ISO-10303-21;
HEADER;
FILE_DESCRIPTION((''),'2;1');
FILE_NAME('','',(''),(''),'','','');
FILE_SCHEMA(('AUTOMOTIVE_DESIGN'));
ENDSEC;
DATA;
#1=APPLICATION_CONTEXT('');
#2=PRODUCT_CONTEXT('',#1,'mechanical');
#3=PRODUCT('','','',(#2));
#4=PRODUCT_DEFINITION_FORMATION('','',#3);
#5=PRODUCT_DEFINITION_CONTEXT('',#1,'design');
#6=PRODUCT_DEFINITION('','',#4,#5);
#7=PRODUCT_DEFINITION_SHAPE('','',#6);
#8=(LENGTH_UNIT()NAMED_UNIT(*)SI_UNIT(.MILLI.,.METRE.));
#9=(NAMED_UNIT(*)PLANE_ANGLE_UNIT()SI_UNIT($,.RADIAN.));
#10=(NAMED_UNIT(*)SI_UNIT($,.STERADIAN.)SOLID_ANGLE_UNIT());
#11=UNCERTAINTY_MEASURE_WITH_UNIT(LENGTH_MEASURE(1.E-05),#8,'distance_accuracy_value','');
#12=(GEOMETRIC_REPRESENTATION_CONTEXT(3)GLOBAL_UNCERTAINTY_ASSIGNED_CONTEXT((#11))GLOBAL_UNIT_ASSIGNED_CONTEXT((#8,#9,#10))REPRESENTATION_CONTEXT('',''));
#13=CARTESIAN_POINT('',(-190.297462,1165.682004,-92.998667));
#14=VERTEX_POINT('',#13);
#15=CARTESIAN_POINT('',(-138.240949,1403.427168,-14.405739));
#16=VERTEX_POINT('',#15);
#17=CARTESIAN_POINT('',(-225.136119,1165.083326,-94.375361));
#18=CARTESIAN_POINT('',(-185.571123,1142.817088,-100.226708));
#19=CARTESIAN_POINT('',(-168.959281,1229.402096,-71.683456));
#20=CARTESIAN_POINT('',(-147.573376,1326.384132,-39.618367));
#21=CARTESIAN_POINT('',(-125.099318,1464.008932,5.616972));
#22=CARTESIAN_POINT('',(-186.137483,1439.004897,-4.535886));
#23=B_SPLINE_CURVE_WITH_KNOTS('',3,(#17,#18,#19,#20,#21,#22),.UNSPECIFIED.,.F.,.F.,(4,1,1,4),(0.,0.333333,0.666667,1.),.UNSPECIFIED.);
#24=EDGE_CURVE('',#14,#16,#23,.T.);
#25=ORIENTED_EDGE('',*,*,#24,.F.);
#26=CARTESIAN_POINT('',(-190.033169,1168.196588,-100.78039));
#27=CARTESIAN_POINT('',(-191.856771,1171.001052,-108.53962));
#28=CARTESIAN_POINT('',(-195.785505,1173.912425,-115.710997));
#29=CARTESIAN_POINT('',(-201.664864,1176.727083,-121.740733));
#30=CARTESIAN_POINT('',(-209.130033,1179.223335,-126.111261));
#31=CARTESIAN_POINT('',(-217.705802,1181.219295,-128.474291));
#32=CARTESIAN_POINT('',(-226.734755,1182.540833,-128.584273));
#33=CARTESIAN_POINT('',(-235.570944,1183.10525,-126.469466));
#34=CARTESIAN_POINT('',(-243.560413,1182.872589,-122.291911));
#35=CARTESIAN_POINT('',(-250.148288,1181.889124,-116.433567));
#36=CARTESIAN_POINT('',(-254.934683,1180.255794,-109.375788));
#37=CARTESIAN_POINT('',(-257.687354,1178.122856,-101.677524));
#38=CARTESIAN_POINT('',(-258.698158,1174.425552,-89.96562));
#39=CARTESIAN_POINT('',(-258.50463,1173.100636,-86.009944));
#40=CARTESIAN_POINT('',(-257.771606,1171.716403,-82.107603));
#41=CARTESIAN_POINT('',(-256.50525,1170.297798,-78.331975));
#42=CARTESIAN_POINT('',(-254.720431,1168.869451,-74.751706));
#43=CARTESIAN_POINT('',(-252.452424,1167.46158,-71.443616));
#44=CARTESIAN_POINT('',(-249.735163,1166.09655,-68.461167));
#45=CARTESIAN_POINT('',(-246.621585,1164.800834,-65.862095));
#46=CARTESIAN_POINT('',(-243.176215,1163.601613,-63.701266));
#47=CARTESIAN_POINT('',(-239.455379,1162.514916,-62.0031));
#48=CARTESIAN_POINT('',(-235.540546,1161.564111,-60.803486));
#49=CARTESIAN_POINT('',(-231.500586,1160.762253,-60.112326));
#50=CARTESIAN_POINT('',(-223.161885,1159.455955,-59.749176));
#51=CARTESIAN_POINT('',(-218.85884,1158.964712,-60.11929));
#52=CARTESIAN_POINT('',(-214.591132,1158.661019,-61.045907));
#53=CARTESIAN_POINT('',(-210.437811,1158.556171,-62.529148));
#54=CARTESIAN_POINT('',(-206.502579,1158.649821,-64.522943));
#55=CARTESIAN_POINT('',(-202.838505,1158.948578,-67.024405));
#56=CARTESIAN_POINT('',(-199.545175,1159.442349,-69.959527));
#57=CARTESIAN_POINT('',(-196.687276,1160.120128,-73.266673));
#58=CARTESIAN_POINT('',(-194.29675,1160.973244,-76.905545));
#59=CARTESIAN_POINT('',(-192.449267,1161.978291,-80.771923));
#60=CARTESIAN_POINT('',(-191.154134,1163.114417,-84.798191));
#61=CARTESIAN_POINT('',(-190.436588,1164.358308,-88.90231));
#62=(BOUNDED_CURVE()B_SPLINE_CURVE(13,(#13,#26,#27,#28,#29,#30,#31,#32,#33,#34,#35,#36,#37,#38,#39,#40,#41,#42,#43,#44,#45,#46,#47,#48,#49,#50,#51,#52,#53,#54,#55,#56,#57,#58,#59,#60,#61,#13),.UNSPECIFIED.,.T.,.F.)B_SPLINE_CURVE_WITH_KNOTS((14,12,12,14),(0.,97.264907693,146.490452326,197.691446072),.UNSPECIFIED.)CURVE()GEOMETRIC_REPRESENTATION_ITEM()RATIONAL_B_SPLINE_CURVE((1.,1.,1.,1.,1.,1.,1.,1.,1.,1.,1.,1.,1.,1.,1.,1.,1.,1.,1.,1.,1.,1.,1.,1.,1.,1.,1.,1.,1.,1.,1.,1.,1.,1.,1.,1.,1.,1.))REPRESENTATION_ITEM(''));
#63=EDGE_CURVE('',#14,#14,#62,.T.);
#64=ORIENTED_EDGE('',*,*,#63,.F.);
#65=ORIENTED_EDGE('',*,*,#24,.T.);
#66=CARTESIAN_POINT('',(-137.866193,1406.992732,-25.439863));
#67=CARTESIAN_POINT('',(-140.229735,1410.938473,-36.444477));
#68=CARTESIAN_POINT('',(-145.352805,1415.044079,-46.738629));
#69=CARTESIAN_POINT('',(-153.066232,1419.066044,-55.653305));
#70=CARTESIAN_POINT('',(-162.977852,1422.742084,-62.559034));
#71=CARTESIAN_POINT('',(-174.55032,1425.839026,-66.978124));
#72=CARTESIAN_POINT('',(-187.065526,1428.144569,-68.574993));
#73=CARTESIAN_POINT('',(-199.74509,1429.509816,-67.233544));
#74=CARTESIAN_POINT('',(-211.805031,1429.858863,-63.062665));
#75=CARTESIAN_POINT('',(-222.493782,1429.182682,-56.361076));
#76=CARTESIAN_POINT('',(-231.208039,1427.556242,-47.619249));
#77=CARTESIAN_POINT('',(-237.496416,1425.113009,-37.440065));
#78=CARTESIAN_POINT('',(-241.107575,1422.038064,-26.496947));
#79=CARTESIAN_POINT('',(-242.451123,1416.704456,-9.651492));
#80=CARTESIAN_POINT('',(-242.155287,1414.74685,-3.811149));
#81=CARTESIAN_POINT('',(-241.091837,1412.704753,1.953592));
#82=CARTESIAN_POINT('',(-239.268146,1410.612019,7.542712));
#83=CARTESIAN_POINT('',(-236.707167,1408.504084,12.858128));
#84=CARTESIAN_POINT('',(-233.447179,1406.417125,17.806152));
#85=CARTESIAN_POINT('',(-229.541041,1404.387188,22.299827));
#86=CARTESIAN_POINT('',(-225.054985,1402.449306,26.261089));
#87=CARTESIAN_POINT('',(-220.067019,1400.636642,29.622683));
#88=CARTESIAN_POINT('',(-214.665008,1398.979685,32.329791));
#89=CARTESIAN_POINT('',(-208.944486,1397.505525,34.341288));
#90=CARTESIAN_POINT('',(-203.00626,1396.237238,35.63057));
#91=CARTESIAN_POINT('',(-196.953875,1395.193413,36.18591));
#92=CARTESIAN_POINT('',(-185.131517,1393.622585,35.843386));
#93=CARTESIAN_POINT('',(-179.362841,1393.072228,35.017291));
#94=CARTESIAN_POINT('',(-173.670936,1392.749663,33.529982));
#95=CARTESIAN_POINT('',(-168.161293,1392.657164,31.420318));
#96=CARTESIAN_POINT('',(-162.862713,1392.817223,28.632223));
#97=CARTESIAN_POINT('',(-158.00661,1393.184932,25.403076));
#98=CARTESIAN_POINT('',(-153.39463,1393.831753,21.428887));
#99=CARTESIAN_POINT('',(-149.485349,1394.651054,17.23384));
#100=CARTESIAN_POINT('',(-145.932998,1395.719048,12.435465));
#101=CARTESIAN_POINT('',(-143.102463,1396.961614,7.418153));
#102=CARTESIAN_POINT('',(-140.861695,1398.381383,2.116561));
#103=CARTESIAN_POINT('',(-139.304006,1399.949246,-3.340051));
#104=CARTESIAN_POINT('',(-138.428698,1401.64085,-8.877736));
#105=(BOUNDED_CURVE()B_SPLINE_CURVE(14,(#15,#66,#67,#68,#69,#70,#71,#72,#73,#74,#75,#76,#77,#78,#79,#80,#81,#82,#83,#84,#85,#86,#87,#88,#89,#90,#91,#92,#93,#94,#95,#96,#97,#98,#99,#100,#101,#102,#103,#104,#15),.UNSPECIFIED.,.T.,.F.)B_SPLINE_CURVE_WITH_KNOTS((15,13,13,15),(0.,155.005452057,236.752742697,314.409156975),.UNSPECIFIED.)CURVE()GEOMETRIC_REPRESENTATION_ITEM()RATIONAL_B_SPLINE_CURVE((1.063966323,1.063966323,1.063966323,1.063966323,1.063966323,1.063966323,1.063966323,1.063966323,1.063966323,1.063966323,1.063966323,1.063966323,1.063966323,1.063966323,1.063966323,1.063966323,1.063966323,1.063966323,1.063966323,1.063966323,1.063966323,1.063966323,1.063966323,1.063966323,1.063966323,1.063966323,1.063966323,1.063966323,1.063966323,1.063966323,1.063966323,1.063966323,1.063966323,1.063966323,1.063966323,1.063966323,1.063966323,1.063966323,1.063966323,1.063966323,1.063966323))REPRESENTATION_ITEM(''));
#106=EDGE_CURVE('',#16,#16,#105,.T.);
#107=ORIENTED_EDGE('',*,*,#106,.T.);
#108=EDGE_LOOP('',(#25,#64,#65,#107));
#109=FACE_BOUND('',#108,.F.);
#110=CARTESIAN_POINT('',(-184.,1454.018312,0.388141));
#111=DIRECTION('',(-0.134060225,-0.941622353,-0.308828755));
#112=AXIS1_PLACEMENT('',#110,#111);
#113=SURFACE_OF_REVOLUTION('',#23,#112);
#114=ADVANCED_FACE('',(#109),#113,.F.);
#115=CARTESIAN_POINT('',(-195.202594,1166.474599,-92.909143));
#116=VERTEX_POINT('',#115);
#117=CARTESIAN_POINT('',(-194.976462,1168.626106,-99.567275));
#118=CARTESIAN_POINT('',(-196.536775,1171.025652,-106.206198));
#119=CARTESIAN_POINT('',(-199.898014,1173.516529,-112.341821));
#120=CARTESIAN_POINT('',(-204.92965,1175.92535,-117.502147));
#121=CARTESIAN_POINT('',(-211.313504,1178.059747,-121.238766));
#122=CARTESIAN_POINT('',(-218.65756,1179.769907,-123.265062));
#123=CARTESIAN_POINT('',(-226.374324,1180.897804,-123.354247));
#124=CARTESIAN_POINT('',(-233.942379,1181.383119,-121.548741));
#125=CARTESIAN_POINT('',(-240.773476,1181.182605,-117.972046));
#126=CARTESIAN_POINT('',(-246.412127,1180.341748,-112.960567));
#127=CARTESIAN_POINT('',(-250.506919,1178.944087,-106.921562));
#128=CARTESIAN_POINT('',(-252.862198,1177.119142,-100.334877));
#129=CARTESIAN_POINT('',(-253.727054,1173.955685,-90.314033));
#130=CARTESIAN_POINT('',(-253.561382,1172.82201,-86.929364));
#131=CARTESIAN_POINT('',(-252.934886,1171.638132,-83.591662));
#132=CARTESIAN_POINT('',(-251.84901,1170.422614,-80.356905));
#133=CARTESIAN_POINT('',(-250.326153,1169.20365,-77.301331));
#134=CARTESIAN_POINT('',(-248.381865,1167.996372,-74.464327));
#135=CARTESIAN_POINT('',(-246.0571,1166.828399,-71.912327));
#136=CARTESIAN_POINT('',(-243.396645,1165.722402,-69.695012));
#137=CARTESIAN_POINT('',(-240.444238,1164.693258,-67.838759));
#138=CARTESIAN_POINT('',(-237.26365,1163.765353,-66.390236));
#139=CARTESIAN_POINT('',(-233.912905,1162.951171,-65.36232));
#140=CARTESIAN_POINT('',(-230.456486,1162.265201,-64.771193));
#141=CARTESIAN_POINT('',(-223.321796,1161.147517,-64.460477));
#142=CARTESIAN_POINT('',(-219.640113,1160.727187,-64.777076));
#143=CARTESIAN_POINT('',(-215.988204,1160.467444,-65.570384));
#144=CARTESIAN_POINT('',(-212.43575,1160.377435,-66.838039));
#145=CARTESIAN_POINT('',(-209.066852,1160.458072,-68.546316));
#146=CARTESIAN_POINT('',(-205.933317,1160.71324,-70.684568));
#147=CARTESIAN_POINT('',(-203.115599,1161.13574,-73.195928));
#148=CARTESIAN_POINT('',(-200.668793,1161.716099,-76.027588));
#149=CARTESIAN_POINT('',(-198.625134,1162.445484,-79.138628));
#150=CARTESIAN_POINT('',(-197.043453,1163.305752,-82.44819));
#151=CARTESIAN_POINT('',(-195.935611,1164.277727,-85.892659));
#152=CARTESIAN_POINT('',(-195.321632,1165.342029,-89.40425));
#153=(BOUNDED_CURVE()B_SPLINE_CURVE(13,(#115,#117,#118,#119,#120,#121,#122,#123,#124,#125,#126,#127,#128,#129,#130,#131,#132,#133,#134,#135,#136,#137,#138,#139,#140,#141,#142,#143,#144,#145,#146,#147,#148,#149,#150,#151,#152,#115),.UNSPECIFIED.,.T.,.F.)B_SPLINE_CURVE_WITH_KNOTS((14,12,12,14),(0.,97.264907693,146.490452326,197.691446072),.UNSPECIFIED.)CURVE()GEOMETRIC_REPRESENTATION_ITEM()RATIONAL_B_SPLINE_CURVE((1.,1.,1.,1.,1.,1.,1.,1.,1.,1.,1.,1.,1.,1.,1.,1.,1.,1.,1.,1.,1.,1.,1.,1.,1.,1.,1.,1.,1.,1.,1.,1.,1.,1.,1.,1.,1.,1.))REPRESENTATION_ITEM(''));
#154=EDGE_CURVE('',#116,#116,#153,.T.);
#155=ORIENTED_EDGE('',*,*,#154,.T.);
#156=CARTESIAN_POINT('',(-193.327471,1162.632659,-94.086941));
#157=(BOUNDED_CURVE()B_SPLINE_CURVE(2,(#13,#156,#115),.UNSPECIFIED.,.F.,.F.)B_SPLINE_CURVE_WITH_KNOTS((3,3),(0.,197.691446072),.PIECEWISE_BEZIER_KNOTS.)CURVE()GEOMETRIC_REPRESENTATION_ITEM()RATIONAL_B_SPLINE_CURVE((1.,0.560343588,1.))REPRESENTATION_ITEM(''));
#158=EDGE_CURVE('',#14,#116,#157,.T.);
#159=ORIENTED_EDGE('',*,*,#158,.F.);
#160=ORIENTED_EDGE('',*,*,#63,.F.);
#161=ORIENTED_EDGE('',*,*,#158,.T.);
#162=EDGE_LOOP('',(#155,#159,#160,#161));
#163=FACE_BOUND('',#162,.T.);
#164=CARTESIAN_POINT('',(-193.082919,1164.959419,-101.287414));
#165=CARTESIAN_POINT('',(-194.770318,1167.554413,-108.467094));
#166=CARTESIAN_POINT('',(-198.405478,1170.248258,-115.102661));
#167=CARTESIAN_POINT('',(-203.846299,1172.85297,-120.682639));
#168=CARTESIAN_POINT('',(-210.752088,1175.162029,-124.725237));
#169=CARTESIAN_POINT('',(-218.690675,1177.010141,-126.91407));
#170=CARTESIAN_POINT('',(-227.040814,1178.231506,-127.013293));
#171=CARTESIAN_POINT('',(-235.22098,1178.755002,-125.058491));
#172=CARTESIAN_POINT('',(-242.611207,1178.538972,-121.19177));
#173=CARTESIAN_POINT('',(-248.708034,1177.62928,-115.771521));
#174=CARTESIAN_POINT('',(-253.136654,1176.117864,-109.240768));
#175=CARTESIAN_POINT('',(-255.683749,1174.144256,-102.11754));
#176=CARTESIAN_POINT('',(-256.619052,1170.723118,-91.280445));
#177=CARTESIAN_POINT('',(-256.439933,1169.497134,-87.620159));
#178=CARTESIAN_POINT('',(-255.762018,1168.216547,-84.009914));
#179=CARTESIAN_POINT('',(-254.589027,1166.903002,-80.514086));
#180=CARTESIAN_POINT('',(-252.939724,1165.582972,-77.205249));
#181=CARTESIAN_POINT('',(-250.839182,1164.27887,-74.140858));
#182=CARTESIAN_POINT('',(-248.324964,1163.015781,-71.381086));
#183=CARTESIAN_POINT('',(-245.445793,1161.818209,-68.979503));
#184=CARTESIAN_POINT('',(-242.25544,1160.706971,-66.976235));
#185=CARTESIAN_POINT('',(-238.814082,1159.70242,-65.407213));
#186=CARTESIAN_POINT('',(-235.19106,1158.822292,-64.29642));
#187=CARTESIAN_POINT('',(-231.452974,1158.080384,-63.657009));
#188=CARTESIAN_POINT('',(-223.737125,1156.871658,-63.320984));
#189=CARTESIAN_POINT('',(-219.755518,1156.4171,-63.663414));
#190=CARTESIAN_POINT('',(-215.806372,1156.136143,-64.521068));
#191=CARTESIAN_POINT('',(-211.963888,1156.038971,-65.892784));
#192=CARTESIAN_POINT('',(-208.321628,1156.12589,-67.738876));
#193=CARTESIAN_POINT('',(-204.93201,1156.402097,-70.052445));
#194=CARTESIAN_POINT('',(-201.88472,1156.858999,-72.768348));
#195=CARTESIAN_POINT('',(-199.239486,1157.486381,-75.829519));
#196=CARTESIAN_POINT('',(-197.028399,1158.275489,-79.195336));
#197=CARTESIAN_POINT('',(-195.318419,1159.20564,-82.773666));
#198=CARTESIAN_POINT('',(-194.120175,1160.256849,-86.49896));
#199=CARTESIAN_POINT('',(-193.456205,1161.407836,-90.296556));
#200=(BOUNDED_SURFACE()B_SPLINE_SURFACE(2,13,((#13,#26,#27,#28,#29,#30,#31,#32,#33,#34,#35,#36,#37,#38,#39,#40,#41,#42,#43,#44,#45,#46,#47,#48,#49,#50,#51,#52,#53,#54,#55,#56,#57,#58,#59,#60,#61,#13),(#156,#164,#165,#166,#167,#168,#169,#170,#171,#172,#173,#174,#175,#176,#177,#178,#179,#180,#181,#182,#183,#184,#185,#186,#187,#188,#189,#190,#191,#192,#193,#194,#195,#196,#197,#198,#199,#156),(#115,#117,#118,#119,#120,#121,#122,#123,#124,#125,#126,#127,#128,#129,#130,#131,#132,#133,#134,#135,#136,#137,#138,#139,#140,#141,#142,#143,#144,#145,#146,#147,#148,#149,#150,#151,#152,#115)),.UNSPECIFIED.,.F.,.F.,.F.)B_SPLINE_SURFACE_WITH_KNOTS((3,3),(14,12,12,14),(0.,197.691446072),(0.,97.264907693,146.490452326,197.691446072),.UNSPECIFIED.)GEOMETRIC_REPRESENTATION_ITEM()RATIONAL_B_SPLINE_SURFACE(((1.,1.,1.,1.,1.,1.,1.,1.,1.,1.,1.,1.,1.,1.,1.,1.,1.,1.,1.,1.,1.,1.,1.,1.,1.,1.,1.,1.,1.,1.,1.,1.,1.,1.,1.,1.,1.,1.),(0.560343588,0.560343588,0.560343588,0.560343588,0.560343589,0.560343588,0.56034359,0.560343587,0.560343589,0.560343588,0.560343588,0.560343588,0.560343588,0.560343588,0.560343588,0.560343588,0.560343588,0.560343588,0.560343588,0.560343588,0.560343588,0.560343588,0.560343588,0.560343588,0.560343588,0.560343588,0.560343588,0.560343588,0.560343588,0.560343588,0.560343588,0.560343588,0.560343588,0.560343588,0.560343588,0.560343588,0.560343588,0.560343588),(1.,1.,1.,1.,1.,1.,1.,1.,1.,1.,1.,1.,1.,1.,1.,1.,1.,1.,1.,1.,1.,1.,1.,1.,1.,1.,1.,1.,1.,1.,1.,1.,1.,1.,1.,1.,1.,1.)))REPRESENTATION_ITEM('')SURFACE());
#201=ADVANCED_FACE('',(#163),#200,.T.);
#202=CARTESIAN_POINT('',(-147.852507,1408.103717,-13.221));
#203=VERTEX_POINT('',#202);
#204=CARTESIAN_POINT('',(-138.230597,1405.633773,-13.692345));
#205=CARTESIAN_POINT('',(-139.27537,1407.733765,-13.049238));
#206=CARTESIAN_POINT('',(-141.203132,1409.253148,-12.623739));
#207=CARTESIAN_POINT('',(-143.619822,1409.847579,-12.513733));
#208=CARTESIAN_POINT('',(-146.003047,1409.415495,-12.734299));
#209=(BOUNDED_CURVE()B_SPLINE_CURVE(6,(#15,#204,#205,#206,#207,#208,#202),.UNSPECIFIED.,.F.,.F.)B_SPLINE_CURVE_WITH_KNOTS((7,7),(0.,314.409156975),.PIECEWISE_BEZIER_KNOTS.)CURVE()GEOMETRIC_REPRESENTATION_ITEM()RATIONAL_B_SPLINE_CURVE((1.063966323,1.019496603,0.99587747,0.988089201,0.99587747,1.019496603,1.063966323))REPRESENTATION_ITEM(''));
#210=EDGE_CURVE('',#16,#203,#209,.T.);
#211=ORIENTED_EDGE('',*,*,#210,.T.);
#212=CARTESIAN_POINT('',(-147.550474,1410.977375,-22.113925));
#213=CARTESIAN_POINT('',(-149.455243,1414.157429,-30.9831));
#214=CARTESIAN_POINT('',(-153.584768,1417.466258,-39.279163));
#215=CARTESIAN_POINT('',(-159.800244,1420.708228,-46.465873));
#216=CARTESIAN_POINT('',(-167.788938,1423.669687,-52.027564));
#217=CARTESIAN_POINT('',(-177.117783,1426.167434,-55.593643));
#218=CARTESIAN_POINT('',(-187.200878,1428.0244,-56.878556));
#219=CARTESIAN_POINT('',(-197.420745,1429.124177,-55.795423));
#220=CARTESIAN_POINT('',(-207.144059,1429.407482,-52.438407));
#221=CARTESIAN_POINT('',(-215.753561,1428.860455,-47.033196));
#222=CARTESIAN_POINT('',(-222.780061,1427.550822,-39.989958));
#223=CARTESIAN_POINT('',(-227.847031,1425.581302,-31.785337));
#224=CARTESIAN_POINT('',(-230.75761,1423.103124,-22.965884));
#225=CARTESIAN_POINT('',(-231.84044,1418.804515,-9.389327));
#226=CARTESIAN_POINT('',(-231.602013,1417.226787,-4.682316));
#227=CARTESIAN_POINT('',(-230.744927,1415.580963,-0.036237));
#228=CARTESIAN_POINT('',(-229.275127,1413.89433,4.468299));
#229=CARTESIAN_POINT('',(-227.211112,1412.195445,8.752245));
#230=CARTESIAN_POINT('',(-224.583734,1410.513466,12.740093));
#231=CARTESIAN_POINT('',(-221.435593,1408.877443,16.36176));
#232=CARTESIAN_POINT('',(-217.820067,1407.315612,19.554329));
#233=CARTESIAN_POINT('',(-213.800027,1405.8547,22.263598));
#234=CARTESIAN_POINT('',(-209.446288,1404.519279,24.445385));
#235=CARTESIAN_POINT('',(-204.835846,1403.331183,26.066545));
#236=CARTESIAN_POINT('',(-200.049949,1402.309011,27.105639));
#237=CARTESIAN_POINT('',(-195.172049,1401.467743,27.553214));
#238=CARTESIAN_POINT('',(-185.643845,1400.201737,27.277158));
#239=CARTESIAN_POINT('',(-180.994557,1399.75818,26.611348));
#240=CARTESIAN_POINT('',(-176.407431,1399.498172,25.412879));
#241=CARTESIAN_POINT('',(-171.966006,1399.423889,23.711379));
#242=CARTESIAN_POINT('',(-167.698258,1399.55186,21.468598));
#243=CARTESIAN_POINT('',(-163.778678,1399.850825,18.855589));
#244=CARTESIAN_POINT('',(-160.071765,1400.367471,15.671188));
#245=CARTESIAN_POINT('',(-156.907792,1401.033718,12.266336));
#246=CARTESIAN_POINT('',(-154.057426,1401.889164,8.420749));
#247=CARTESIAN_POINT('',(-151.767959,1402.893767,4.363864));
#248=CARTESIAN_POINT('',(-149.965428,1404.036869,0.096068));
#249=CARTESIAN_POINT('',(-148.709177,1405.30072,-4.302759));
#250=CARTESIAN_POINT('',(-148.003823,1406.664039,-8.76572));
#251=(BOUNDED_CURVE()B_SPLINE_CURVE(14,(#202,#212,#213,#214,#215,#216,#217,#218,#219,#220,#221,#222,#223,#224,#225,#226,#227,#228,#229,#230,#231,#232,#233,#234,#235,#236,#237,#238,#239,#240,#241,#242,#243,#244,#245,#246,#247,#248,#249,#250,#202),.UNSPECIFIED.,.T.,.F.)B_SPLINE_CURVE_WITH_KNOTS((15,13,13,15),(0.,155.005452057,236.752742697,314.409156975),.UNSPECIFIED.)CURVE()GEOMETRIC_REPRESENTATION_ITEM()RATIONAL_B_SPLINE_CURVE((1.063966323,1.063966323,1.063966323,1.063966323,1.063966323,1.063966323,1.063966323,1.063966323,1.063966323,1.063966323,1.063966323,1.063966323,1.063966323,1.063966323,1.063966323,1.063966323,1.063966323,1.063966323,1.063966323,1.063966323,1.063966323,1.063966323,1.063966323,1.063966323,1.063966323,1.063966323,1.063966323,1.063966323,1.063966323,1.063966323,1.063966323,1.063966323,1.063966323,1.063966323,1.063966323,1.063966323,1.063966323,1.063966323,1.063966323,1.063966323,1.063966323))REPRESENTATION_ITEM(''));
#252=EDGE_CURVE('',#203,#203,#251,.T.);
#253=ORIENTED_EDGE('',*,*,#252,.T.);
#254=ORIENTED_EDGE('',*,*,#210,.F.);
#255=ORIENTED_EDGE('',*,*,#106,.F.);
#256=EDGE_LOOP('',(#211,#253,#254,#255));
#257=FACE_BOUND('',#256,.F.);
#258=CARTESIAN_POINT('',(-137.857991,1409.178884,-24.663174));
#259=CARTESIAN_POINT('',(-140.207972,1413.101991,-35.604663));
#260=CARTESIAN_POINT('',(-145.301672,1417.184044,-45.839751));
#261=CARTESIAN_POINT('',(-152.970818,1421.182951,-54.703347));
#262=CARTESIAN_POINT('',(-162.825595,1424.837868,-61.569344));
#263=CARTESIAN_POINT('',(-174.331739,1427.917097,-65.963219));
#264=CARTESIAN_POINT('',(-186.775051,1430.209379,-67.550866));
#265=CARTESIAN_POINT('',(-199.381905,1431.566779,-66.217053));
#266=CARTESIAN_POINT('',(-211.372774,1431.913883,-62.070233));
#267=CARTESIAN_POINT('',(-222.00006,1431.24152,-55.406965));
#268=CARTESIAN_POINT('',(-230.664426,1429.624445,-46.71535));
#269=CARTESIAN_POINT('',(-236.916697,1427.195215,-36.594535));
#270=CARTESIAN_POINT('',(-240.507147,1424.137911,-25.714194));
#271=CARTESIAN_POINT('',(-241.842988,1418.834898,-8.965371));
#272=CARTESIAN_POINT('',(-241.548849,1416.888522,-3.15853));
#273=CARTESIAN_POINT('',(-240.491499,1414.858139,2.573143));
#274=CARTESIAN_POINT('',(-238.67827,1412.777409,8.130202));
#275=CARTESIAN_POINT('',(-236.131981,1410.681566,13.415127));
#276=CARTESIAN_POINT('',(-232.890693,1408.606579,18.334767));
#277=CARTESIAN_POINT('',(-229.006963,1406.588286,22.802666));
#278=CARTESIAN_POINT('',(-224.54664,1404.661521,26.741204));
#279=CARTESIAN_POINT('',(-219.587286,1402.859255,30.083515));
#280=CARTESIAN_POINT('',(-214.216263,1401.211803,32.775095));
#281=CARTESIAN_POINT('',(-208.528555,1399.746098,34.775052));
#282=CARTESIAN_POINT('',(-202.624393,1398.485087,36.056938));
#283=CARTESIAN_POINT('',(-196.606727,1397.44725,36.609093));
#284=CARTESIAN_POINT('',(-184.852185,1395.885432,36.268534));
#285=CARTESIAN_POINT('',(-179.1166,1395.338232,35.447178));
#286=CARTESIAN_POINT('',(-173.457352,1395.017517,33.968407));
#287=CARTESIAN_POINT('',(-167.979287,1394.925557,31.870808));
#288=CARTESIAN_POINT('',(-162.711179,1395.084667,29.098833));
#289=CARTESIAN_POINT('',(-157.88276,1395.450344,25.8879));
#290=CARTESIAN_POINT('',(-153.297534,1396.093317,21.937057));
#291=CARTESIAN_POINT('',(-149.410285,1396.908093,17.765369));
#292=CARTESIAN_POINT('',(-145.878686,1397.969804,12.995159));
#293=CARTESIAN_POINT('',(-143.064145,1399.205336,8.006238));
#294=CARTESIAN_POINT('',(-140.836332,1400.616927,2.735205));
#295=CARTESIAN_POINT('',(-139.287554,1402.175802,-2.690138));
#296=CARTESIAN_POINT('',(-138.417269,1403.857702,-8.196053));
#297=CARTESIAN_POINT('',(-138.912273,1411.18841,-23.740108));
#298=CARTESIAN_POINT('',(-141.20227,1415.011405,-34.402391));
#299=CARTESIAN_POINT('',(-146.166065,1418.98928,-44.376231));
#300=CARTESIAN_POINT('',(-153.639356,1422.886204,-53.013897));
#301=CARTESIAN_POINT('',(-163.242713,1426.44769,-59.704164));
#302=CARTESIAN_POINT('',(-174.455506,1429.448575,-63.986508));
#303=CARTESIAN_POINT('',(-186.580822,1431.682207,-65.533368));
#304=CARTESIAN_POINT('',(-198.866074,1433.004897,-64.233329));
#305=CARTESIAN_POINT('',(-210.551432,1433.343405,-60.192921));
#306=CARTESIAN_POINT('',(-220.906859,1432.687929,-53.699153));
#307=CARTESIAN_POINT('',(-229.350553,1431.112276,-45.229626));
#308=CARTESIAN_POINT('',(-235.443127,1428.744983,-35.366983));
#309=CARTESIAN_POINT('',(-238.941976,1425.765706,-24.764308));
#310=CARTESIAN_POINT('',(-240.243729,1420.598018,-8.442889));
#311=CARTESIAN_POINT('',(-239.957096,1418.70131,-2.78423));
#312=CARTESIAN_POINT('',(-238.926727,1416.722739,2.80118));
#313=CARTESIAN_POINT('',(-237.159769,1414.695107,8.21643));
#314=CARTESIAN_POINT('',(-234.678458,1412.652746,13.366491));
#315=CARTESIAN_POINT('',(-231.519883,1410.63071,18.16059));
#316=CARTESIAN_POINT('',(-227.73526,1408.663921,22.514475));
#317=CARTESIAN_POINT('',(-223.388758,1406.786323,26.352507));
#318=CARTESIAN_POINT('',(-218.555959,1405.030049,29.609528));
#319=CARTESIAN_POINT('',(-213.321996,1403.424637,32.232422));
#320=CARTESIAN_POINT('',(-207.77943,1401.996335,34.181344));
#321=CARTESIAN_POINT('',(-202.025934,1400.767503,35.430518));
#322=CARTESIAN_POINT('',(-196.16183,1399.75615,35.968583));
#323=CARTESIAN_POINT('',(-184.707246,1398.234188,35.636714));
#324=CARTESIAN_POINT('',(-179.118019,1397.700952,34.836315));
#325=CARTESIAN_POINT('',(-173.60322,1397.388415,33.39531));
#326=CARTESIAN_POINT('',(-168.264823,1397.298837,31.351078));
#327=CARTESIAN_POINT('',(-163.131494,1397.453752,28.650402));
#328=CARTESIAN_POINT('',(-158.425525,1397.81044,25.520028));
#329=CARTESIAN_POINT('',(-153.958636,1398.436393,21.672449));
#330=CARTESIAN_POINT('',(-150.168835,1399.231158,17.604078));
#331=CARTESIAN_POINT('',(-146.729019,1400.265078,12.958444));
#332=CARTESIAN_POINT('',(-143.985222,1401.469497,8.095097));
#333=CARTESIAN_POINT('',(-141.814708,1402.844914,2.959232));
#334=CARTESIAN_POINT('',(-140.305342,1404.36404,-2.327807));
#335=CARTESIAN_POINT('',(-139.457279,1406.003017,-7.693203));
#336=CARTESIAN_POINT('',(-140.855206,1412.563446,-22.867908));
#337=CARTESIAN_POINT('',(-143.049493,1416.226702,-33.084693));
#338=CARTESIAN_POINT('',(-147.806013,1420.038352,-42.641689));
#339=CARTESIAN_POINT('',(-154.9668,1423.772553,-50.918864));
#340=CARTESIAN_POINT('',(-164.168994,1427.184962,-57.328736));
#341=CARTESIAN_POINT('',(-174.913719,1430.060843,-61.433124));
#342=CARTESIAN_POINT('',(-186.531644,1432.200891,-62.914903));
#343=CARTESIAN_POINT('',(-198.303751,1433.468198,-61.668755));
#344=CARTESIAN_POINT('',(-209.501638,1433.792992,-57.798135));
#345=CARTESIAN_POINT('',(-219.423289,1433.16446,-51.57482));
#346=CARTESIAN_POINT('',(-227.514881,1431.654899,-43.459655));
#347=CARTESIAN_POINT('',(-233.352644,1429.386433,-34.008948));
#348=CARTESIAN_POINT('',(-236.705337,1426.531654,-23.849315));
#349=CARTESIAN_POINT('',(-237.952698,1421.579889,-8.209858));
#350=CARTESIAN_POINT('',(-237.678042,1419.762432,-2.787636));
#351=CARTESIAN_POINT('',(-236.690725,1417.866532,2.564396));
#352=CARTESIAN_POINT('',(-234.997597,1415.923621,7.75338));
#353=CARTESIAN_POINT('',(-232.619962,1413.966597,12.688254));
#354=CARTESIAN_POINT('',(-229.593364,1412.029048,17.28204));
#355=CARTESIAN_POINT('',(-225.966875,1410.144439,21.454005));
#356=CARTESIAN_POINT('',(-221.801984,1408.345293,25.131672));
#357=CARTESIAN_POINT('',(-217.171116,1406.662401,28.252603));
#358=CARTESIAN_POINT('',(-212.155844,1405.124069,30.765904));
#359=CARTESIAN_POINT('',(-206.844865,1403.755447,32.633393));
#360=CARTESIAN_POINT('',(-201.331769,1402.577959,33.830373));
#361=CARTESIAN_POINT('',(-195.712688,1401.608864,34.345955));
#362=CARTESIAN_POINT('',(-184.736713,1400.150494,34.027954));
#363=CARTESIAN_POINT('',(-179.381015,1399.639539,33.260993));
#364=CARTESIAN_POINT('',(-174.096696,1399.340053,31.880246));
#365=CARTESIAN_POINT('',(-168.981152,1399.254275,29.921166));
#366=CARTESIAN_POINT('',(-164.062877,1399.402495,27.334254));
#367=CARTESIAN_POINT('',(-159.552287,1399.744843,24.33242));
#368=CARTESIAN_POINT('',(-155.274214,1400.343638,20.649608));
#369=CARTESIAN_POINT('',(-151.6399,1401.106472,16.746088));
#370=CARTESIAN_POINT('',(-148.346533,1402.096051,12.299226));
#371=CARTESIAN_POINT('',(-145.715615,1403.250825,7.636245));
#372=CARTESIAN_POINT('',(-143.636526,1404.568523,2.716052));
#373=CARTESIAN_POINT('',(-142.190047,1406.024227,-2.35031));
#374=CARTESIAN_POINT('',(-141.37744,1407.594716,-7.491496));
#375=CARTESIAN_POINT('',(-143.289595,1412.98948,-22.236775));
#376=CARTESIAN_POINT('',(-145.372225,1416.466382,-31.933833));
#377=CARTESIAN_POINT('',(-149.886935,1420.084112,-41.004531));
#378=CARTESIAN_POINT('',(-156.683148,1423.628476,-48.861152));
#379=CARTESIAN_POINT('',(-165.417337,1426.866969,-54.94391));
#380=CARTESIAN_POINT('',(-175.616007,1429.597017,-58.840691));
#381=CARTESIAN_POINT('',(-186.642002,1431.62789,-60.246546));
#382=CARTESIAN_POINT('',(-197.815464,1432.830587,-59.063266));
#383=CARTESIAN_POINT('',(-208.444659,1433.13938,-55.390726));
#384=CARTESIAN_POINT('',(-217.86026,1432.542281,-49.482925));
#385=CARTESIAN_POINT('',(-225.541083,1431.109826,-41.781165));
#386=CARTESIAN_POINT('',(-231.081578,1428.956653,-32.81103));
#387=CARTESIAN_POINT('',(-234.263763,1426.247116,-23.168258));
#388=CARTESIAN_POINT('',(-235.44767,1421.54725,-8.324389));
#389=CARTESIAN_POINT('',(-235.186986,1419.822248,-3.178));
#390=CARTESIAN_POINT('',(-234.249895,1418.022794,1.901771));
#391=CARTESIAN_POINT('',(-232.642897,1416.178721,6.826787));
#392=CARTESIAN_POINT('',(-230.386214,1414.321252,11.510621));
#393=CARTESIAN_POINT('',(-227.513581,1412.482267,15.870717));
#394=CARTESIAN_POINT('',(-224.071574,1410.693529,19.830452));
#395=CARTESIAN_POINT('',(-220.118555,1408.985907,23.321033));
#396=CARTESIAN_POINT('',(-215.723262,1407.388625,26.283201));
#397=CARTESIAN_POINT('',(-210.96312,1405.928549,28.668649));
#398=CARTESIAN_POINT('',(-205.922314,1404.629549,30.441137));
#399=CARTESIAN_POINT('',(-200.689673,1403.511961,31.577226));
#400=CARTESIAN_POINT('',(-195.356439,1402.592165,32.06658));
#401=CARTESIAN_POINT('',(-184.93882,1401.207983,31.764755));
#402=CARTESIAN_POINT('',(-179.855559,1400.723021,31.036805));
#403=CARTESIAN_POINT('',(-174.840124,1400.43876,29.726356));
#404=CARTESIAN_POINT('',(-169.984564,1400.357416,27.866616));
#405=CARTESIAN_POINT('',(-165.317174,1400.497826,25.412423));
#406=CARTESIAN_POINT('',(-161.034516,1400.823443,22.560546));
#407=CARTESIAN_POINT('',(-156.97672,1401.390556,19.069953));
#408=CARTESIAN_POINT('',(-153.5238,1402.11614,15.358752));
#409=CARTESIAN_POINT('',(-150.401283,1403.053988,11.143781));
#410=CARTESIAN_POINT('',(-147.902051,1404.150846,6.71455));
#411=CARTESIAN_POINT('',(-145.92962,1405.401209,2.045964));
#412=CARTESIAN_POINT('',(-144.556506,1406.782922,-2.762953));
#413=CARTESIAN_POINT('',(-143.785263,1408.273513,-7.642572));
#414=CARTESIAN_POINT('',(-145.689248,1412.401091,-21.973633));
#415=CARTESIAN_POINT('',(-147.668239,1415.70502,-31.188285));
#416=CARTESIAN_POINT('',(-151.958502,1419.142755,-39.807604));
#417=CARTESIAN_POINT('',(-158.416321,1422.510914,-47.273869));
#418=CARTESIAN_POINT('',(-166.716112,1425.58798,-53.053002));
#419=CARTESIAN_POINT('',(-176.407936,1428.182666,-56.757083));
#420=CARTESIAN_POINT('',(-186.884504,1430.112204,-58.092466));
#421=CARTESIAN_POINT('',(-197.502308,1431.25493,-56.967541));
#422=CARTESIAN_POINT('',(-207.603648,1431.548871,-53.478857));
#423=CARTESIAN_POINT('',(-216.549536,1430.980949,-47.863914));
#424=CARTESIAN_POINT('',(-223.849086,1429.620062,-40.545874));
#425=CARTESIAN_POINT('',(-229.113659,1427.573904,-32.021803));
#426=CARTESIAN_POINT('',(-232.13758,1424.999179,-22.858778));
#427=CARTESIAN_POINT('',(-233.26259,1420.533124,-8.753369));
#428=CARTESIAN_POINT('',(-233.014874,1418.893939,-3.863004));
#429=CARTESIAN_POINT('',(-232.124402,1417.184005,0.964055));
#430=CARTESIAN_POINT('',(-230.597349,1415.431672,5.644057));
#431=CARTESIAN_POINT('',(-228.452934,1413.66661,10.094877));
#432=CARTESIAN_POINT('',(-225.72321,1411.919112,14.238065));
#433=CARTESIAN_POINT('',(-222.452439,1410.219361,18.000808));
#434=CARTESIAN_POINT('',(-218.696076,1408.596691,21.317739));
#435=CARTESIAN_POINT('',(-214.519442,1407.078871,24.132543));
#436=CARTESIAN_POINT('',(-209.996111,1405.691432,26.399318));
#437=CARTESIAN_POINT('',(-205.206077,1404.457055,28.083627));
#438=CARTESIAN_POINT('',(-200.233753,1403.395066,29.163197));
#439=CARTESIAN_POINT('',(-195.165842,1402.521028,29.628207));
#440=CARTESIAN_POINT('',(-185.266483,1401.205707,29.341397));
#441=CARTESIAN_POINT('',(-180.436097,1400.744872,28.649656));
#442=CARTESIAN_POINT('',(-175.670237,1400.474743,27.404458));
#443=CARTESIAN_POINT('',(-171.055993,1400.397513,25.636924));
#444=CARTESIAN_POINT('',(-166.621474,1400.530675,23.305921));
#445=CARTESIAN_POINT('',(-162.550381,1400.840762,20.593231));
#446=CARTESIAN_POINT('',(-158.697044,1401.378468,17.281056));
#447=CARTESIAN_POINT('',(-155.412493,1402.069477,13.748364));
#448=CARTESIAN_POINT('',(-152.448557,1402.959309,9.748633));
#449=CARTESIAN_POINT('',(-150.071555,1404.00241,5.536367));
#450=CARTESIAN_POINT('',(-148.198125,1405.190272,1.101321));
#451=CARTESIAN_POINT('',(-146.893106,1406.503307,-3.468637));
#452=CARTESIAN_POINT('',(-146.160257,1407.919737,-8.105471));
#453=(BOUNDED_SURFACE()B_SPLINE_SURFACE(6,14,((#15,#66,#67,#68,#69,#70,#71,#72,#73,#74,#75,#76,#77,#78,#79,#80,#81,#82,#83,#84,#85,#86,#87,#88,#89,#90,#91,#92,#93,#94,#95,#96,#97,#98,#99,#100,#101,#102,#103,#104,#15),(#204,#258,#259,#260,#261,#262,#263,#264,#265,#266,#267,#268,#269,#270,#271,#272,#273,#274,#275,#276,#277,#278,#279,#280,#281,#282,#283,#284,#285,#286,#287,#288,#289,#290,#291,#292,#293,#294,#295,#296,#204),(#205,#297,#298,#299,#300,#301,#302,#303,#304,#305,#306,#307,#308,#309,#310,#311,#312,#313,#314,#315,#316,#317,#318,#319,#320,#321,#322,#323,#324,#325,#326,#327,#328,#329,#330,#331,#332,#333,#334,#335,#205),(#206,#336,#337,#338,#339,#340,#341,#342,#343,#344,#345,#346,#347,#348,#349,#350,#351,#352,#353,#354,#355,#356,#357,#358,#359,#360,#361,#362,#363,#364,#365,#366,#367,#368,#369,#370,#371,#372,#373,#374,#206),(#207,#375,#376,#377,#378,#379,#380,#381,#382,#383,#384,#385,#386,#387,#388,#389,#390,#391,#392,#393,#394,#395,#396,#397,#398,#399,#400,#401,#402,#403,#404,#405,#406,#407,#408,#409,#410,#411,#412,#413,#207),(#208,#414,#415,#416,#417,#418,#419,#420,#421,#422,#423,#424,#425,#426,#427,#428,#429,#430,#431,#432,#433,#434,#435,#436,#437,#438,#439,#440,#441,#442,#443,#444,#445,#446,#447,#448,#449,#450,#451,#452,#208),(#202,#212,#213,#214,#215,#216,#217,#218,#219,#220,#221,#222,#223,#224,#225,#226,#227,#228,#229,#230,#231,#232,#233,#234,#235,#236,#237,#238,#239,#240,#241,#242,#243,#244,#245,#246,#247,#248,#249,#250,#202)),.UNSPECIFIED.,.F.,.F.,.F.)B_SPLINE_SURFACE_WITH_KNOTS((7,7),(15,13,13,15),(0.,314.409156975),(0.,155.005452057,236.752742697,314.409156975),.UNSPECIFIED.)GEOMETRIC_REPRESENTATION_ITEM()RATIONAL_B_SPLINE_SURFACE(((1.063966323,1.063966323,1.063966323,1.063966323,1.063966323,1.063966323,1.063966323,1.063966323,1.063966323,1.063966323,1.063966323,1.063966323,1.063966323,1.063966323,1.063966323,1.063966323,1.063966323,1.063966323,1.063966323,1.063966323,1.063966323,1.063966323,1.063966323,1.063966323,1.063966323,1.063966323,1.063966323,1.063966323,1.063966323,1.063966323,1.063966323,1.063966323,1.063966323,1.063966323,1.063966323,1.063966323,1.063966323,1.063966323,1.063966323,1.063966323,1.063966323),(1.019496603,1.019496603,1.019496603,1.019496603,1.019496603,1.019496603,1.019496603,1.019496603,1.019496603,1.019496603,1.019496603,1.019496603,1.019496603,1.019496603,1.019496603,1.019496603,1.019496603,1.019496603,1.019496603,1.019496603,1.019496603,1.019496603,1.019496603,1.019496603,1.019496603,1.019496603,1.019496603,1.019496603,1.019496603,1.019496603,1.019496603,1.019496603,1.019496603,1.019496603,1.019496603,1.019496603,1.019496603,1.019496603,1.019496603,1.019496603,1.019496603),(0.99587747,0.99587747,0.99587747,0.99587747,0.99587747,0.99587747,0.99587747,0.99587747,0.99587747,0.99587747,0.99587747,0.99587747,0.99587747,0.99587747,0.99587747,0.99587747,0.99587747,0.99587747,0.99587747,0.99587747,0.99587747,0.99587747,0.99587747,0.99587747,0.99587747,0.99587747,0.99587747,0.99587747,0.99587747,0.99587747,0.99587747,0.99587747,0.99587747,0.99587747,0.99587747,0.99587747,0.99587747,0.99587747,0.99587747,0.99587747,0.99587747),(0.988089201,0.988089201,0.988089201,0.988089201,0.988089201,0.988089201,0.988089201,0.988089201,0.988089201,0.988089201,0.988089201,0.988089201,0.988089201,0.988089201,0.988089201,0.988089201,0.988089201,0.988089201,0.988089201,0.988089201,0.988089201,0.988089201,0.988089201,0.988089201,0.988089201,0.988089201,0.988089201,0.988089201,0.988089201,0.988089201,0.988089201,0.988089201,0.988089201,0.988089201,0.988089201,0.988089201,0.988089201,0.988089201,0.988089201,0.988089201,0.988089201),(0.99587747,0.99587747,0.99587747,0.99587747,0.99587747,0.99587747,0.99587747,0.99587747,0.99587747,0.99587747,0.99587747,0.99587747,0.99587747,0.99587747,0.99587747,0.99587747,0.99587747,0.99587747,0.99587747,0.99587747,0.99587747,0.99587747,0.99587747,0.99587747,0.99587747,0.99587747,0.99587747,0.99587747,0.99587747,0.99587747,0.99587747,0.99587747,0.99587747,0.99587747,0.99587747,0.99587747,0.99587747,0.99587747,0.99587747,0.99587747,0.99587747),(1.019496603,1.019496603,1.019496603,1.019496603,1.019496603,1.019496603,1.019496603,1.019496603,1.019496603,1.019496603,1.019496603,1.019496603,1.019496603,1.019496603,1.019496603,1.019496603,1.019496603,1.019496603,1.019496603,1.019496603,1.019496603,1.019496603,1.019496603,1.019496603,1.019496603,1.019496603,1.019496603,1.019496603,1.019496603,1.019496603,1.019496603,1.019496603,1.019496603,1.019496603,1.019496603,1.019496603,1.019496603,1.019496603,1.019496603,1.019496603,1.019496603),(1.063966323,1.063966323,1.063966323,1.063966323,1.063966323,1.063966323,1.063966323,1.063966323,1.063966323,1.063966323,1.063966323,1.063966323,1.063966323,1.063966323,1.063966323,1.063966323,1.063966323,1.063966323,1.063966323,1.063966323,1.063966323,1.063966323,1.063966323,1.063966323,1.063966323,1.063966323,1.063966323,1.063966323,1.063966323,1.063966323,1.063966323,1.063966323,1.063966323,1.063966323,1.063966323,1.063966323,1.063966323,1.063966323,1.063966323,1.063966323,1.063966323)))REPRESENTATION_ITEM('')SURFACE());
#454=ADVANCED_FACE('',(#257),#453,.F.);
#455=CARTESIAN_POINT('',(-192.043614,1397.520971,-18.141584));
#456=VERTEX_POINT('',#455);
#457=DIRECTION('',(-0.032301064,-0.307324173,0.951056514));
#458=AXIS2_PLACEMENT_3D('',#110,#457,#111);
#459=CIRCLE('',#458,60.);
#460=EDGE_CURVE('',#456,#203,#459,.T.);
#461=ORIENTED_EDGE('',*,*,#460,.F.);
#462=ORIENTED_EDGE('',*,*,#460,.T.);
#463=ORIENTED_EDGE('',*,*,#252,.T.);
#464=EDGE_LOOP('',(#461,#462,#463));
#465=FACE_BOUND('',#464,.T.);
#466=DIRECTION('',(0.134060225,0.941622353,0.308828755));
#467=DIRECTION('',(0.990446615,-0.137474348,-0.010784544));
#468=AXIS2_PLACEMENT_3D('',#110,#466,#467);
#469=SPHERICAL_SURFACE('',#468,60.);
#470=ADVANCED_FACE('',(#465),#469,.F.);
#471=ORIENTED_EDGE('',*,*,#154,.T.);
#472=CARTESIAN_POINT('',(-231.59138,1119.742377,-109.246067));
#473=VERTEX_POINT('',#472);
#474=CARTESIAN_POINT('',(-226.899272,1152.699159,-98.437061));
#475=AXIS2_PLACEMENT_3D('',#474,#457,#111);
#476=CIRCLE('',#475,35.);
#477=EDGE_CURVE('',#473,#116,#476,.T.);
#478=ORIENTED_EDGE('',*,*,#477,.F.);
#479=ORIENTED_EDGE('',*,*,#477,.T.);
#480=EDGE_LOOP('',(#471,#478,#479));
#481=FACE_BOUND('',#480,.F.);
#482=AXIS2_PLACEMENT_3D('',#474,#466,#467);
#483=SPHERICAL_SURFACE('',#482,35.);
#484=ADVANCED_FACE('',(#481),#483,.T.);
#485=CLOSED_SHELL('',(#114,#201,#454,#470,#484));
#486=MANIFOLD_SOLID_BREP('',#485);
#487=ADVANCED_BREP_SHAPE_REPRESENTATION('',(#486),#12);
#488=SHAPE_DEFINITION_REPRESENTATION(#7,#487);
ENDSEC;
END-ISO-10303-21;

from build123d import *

# Parameters (mm, degrees)
FILLET091_R             = 6
FILLET092_R             = 3
BODY055_ROLL_ANGLE      = -0.64968
BODY055_PITCH_ANGLE     = 17.98866
BODY055_PLACEMENT_ANGLE = -98.102834


with BuildPart() as part:
    # Sketch185 → Revolution095 (revolve)
    with BuildSketch(Plane.XY):
        with BuildLine():
            Line((15.9442, 0), (306.848053, 0))
            add(Edge.make_bspline(
                [(306.848053, 0), (324.317413, 42.311157), (231.745069, 46.553256), (127.654996, 54.056504), (-18.918443, 56.908137), (15.9442, 0)],
                knots=[0, 0, 0, 0, 0.333333, 0.666667, 1, 1, 1, 1], degree=3))
        make_face()
    revolve(axis=Axis((0, 0, 0), (1, 0, 0)))

    # Sketch186 → Groove089 (revolve, cut)
    with BuildSketch(Plane.XY):
        with BuildLine():
            Line((-60, 0), (60, 0))
            ThreePointArc((60, 0), (0, 60), (-60, 0))
        make_face()
    revolve(axis=Axis((0, 0, 0), (1, 0, 0)), mode=Mode.SUBTRACT)

    # Fillet091
    fillet091_edges = [part.edges().sort_by_distance(p)[0] for p in [
        (33.106232, -50.039758, 0),
    ]]
    fillet(fillet091_edges, radius=FILLET091_R)

    # Sketch187 → Groove090 (revolve, cut)
    with BuildSketch(Plane.XY):
        with BuildLine():
            Line((285, 0), (355, 0))
            ThreePointArc((355, 0), (320, 35), (285, 0))
        make_face()
    revolve(axis=Axis((0, 0, 0), (1, 0, 0)), mode=Mode.SUBTRACT)

    # Fillet092
    fillet092_edges = [part.edges().sort_by_distance(p)[0] for p in [
        (304.668851, -31.463564, 0),
    ]]
    fillet(fillet092_edges, radius=FILLET092_R)

    # Sketch187 → Revolution096 (revolve)
    with BuildSketch(Plane.XY):
        with BuildLine():
            Line((285, 0), (355, 0))
            ThreePointArc((355, 0), (320, 35), (285, 0))
        make_face()
    revolve(axis=Axis((0, 0, 0), (1, 0, 0)))


with BuildPart() as part_1:
    # Body055 roll: moved
    add(part.part.rotate(Axis((0, 0, 0), (1, 0, 0)), BODY055_ROLL_ANGLE))


with BuildPart() as part_2:
    # Body055 pitch: moved
    add(part_1.part.rotate(Axis((0, 0, 0), (0, 1, 0)), BODY055_PITCH_ANGLE))


with BuildPart() as part_3:
    # Body055 placement: moved
    add(part_2.part.moved(Location((-184, 1454.018312, 0.388141))).rotate(Axis((-184, 1454.018312, 0.388141), (0, 0, 1)), BODY055_PLACEMENT_ANGLE))


solid = part_3.part
